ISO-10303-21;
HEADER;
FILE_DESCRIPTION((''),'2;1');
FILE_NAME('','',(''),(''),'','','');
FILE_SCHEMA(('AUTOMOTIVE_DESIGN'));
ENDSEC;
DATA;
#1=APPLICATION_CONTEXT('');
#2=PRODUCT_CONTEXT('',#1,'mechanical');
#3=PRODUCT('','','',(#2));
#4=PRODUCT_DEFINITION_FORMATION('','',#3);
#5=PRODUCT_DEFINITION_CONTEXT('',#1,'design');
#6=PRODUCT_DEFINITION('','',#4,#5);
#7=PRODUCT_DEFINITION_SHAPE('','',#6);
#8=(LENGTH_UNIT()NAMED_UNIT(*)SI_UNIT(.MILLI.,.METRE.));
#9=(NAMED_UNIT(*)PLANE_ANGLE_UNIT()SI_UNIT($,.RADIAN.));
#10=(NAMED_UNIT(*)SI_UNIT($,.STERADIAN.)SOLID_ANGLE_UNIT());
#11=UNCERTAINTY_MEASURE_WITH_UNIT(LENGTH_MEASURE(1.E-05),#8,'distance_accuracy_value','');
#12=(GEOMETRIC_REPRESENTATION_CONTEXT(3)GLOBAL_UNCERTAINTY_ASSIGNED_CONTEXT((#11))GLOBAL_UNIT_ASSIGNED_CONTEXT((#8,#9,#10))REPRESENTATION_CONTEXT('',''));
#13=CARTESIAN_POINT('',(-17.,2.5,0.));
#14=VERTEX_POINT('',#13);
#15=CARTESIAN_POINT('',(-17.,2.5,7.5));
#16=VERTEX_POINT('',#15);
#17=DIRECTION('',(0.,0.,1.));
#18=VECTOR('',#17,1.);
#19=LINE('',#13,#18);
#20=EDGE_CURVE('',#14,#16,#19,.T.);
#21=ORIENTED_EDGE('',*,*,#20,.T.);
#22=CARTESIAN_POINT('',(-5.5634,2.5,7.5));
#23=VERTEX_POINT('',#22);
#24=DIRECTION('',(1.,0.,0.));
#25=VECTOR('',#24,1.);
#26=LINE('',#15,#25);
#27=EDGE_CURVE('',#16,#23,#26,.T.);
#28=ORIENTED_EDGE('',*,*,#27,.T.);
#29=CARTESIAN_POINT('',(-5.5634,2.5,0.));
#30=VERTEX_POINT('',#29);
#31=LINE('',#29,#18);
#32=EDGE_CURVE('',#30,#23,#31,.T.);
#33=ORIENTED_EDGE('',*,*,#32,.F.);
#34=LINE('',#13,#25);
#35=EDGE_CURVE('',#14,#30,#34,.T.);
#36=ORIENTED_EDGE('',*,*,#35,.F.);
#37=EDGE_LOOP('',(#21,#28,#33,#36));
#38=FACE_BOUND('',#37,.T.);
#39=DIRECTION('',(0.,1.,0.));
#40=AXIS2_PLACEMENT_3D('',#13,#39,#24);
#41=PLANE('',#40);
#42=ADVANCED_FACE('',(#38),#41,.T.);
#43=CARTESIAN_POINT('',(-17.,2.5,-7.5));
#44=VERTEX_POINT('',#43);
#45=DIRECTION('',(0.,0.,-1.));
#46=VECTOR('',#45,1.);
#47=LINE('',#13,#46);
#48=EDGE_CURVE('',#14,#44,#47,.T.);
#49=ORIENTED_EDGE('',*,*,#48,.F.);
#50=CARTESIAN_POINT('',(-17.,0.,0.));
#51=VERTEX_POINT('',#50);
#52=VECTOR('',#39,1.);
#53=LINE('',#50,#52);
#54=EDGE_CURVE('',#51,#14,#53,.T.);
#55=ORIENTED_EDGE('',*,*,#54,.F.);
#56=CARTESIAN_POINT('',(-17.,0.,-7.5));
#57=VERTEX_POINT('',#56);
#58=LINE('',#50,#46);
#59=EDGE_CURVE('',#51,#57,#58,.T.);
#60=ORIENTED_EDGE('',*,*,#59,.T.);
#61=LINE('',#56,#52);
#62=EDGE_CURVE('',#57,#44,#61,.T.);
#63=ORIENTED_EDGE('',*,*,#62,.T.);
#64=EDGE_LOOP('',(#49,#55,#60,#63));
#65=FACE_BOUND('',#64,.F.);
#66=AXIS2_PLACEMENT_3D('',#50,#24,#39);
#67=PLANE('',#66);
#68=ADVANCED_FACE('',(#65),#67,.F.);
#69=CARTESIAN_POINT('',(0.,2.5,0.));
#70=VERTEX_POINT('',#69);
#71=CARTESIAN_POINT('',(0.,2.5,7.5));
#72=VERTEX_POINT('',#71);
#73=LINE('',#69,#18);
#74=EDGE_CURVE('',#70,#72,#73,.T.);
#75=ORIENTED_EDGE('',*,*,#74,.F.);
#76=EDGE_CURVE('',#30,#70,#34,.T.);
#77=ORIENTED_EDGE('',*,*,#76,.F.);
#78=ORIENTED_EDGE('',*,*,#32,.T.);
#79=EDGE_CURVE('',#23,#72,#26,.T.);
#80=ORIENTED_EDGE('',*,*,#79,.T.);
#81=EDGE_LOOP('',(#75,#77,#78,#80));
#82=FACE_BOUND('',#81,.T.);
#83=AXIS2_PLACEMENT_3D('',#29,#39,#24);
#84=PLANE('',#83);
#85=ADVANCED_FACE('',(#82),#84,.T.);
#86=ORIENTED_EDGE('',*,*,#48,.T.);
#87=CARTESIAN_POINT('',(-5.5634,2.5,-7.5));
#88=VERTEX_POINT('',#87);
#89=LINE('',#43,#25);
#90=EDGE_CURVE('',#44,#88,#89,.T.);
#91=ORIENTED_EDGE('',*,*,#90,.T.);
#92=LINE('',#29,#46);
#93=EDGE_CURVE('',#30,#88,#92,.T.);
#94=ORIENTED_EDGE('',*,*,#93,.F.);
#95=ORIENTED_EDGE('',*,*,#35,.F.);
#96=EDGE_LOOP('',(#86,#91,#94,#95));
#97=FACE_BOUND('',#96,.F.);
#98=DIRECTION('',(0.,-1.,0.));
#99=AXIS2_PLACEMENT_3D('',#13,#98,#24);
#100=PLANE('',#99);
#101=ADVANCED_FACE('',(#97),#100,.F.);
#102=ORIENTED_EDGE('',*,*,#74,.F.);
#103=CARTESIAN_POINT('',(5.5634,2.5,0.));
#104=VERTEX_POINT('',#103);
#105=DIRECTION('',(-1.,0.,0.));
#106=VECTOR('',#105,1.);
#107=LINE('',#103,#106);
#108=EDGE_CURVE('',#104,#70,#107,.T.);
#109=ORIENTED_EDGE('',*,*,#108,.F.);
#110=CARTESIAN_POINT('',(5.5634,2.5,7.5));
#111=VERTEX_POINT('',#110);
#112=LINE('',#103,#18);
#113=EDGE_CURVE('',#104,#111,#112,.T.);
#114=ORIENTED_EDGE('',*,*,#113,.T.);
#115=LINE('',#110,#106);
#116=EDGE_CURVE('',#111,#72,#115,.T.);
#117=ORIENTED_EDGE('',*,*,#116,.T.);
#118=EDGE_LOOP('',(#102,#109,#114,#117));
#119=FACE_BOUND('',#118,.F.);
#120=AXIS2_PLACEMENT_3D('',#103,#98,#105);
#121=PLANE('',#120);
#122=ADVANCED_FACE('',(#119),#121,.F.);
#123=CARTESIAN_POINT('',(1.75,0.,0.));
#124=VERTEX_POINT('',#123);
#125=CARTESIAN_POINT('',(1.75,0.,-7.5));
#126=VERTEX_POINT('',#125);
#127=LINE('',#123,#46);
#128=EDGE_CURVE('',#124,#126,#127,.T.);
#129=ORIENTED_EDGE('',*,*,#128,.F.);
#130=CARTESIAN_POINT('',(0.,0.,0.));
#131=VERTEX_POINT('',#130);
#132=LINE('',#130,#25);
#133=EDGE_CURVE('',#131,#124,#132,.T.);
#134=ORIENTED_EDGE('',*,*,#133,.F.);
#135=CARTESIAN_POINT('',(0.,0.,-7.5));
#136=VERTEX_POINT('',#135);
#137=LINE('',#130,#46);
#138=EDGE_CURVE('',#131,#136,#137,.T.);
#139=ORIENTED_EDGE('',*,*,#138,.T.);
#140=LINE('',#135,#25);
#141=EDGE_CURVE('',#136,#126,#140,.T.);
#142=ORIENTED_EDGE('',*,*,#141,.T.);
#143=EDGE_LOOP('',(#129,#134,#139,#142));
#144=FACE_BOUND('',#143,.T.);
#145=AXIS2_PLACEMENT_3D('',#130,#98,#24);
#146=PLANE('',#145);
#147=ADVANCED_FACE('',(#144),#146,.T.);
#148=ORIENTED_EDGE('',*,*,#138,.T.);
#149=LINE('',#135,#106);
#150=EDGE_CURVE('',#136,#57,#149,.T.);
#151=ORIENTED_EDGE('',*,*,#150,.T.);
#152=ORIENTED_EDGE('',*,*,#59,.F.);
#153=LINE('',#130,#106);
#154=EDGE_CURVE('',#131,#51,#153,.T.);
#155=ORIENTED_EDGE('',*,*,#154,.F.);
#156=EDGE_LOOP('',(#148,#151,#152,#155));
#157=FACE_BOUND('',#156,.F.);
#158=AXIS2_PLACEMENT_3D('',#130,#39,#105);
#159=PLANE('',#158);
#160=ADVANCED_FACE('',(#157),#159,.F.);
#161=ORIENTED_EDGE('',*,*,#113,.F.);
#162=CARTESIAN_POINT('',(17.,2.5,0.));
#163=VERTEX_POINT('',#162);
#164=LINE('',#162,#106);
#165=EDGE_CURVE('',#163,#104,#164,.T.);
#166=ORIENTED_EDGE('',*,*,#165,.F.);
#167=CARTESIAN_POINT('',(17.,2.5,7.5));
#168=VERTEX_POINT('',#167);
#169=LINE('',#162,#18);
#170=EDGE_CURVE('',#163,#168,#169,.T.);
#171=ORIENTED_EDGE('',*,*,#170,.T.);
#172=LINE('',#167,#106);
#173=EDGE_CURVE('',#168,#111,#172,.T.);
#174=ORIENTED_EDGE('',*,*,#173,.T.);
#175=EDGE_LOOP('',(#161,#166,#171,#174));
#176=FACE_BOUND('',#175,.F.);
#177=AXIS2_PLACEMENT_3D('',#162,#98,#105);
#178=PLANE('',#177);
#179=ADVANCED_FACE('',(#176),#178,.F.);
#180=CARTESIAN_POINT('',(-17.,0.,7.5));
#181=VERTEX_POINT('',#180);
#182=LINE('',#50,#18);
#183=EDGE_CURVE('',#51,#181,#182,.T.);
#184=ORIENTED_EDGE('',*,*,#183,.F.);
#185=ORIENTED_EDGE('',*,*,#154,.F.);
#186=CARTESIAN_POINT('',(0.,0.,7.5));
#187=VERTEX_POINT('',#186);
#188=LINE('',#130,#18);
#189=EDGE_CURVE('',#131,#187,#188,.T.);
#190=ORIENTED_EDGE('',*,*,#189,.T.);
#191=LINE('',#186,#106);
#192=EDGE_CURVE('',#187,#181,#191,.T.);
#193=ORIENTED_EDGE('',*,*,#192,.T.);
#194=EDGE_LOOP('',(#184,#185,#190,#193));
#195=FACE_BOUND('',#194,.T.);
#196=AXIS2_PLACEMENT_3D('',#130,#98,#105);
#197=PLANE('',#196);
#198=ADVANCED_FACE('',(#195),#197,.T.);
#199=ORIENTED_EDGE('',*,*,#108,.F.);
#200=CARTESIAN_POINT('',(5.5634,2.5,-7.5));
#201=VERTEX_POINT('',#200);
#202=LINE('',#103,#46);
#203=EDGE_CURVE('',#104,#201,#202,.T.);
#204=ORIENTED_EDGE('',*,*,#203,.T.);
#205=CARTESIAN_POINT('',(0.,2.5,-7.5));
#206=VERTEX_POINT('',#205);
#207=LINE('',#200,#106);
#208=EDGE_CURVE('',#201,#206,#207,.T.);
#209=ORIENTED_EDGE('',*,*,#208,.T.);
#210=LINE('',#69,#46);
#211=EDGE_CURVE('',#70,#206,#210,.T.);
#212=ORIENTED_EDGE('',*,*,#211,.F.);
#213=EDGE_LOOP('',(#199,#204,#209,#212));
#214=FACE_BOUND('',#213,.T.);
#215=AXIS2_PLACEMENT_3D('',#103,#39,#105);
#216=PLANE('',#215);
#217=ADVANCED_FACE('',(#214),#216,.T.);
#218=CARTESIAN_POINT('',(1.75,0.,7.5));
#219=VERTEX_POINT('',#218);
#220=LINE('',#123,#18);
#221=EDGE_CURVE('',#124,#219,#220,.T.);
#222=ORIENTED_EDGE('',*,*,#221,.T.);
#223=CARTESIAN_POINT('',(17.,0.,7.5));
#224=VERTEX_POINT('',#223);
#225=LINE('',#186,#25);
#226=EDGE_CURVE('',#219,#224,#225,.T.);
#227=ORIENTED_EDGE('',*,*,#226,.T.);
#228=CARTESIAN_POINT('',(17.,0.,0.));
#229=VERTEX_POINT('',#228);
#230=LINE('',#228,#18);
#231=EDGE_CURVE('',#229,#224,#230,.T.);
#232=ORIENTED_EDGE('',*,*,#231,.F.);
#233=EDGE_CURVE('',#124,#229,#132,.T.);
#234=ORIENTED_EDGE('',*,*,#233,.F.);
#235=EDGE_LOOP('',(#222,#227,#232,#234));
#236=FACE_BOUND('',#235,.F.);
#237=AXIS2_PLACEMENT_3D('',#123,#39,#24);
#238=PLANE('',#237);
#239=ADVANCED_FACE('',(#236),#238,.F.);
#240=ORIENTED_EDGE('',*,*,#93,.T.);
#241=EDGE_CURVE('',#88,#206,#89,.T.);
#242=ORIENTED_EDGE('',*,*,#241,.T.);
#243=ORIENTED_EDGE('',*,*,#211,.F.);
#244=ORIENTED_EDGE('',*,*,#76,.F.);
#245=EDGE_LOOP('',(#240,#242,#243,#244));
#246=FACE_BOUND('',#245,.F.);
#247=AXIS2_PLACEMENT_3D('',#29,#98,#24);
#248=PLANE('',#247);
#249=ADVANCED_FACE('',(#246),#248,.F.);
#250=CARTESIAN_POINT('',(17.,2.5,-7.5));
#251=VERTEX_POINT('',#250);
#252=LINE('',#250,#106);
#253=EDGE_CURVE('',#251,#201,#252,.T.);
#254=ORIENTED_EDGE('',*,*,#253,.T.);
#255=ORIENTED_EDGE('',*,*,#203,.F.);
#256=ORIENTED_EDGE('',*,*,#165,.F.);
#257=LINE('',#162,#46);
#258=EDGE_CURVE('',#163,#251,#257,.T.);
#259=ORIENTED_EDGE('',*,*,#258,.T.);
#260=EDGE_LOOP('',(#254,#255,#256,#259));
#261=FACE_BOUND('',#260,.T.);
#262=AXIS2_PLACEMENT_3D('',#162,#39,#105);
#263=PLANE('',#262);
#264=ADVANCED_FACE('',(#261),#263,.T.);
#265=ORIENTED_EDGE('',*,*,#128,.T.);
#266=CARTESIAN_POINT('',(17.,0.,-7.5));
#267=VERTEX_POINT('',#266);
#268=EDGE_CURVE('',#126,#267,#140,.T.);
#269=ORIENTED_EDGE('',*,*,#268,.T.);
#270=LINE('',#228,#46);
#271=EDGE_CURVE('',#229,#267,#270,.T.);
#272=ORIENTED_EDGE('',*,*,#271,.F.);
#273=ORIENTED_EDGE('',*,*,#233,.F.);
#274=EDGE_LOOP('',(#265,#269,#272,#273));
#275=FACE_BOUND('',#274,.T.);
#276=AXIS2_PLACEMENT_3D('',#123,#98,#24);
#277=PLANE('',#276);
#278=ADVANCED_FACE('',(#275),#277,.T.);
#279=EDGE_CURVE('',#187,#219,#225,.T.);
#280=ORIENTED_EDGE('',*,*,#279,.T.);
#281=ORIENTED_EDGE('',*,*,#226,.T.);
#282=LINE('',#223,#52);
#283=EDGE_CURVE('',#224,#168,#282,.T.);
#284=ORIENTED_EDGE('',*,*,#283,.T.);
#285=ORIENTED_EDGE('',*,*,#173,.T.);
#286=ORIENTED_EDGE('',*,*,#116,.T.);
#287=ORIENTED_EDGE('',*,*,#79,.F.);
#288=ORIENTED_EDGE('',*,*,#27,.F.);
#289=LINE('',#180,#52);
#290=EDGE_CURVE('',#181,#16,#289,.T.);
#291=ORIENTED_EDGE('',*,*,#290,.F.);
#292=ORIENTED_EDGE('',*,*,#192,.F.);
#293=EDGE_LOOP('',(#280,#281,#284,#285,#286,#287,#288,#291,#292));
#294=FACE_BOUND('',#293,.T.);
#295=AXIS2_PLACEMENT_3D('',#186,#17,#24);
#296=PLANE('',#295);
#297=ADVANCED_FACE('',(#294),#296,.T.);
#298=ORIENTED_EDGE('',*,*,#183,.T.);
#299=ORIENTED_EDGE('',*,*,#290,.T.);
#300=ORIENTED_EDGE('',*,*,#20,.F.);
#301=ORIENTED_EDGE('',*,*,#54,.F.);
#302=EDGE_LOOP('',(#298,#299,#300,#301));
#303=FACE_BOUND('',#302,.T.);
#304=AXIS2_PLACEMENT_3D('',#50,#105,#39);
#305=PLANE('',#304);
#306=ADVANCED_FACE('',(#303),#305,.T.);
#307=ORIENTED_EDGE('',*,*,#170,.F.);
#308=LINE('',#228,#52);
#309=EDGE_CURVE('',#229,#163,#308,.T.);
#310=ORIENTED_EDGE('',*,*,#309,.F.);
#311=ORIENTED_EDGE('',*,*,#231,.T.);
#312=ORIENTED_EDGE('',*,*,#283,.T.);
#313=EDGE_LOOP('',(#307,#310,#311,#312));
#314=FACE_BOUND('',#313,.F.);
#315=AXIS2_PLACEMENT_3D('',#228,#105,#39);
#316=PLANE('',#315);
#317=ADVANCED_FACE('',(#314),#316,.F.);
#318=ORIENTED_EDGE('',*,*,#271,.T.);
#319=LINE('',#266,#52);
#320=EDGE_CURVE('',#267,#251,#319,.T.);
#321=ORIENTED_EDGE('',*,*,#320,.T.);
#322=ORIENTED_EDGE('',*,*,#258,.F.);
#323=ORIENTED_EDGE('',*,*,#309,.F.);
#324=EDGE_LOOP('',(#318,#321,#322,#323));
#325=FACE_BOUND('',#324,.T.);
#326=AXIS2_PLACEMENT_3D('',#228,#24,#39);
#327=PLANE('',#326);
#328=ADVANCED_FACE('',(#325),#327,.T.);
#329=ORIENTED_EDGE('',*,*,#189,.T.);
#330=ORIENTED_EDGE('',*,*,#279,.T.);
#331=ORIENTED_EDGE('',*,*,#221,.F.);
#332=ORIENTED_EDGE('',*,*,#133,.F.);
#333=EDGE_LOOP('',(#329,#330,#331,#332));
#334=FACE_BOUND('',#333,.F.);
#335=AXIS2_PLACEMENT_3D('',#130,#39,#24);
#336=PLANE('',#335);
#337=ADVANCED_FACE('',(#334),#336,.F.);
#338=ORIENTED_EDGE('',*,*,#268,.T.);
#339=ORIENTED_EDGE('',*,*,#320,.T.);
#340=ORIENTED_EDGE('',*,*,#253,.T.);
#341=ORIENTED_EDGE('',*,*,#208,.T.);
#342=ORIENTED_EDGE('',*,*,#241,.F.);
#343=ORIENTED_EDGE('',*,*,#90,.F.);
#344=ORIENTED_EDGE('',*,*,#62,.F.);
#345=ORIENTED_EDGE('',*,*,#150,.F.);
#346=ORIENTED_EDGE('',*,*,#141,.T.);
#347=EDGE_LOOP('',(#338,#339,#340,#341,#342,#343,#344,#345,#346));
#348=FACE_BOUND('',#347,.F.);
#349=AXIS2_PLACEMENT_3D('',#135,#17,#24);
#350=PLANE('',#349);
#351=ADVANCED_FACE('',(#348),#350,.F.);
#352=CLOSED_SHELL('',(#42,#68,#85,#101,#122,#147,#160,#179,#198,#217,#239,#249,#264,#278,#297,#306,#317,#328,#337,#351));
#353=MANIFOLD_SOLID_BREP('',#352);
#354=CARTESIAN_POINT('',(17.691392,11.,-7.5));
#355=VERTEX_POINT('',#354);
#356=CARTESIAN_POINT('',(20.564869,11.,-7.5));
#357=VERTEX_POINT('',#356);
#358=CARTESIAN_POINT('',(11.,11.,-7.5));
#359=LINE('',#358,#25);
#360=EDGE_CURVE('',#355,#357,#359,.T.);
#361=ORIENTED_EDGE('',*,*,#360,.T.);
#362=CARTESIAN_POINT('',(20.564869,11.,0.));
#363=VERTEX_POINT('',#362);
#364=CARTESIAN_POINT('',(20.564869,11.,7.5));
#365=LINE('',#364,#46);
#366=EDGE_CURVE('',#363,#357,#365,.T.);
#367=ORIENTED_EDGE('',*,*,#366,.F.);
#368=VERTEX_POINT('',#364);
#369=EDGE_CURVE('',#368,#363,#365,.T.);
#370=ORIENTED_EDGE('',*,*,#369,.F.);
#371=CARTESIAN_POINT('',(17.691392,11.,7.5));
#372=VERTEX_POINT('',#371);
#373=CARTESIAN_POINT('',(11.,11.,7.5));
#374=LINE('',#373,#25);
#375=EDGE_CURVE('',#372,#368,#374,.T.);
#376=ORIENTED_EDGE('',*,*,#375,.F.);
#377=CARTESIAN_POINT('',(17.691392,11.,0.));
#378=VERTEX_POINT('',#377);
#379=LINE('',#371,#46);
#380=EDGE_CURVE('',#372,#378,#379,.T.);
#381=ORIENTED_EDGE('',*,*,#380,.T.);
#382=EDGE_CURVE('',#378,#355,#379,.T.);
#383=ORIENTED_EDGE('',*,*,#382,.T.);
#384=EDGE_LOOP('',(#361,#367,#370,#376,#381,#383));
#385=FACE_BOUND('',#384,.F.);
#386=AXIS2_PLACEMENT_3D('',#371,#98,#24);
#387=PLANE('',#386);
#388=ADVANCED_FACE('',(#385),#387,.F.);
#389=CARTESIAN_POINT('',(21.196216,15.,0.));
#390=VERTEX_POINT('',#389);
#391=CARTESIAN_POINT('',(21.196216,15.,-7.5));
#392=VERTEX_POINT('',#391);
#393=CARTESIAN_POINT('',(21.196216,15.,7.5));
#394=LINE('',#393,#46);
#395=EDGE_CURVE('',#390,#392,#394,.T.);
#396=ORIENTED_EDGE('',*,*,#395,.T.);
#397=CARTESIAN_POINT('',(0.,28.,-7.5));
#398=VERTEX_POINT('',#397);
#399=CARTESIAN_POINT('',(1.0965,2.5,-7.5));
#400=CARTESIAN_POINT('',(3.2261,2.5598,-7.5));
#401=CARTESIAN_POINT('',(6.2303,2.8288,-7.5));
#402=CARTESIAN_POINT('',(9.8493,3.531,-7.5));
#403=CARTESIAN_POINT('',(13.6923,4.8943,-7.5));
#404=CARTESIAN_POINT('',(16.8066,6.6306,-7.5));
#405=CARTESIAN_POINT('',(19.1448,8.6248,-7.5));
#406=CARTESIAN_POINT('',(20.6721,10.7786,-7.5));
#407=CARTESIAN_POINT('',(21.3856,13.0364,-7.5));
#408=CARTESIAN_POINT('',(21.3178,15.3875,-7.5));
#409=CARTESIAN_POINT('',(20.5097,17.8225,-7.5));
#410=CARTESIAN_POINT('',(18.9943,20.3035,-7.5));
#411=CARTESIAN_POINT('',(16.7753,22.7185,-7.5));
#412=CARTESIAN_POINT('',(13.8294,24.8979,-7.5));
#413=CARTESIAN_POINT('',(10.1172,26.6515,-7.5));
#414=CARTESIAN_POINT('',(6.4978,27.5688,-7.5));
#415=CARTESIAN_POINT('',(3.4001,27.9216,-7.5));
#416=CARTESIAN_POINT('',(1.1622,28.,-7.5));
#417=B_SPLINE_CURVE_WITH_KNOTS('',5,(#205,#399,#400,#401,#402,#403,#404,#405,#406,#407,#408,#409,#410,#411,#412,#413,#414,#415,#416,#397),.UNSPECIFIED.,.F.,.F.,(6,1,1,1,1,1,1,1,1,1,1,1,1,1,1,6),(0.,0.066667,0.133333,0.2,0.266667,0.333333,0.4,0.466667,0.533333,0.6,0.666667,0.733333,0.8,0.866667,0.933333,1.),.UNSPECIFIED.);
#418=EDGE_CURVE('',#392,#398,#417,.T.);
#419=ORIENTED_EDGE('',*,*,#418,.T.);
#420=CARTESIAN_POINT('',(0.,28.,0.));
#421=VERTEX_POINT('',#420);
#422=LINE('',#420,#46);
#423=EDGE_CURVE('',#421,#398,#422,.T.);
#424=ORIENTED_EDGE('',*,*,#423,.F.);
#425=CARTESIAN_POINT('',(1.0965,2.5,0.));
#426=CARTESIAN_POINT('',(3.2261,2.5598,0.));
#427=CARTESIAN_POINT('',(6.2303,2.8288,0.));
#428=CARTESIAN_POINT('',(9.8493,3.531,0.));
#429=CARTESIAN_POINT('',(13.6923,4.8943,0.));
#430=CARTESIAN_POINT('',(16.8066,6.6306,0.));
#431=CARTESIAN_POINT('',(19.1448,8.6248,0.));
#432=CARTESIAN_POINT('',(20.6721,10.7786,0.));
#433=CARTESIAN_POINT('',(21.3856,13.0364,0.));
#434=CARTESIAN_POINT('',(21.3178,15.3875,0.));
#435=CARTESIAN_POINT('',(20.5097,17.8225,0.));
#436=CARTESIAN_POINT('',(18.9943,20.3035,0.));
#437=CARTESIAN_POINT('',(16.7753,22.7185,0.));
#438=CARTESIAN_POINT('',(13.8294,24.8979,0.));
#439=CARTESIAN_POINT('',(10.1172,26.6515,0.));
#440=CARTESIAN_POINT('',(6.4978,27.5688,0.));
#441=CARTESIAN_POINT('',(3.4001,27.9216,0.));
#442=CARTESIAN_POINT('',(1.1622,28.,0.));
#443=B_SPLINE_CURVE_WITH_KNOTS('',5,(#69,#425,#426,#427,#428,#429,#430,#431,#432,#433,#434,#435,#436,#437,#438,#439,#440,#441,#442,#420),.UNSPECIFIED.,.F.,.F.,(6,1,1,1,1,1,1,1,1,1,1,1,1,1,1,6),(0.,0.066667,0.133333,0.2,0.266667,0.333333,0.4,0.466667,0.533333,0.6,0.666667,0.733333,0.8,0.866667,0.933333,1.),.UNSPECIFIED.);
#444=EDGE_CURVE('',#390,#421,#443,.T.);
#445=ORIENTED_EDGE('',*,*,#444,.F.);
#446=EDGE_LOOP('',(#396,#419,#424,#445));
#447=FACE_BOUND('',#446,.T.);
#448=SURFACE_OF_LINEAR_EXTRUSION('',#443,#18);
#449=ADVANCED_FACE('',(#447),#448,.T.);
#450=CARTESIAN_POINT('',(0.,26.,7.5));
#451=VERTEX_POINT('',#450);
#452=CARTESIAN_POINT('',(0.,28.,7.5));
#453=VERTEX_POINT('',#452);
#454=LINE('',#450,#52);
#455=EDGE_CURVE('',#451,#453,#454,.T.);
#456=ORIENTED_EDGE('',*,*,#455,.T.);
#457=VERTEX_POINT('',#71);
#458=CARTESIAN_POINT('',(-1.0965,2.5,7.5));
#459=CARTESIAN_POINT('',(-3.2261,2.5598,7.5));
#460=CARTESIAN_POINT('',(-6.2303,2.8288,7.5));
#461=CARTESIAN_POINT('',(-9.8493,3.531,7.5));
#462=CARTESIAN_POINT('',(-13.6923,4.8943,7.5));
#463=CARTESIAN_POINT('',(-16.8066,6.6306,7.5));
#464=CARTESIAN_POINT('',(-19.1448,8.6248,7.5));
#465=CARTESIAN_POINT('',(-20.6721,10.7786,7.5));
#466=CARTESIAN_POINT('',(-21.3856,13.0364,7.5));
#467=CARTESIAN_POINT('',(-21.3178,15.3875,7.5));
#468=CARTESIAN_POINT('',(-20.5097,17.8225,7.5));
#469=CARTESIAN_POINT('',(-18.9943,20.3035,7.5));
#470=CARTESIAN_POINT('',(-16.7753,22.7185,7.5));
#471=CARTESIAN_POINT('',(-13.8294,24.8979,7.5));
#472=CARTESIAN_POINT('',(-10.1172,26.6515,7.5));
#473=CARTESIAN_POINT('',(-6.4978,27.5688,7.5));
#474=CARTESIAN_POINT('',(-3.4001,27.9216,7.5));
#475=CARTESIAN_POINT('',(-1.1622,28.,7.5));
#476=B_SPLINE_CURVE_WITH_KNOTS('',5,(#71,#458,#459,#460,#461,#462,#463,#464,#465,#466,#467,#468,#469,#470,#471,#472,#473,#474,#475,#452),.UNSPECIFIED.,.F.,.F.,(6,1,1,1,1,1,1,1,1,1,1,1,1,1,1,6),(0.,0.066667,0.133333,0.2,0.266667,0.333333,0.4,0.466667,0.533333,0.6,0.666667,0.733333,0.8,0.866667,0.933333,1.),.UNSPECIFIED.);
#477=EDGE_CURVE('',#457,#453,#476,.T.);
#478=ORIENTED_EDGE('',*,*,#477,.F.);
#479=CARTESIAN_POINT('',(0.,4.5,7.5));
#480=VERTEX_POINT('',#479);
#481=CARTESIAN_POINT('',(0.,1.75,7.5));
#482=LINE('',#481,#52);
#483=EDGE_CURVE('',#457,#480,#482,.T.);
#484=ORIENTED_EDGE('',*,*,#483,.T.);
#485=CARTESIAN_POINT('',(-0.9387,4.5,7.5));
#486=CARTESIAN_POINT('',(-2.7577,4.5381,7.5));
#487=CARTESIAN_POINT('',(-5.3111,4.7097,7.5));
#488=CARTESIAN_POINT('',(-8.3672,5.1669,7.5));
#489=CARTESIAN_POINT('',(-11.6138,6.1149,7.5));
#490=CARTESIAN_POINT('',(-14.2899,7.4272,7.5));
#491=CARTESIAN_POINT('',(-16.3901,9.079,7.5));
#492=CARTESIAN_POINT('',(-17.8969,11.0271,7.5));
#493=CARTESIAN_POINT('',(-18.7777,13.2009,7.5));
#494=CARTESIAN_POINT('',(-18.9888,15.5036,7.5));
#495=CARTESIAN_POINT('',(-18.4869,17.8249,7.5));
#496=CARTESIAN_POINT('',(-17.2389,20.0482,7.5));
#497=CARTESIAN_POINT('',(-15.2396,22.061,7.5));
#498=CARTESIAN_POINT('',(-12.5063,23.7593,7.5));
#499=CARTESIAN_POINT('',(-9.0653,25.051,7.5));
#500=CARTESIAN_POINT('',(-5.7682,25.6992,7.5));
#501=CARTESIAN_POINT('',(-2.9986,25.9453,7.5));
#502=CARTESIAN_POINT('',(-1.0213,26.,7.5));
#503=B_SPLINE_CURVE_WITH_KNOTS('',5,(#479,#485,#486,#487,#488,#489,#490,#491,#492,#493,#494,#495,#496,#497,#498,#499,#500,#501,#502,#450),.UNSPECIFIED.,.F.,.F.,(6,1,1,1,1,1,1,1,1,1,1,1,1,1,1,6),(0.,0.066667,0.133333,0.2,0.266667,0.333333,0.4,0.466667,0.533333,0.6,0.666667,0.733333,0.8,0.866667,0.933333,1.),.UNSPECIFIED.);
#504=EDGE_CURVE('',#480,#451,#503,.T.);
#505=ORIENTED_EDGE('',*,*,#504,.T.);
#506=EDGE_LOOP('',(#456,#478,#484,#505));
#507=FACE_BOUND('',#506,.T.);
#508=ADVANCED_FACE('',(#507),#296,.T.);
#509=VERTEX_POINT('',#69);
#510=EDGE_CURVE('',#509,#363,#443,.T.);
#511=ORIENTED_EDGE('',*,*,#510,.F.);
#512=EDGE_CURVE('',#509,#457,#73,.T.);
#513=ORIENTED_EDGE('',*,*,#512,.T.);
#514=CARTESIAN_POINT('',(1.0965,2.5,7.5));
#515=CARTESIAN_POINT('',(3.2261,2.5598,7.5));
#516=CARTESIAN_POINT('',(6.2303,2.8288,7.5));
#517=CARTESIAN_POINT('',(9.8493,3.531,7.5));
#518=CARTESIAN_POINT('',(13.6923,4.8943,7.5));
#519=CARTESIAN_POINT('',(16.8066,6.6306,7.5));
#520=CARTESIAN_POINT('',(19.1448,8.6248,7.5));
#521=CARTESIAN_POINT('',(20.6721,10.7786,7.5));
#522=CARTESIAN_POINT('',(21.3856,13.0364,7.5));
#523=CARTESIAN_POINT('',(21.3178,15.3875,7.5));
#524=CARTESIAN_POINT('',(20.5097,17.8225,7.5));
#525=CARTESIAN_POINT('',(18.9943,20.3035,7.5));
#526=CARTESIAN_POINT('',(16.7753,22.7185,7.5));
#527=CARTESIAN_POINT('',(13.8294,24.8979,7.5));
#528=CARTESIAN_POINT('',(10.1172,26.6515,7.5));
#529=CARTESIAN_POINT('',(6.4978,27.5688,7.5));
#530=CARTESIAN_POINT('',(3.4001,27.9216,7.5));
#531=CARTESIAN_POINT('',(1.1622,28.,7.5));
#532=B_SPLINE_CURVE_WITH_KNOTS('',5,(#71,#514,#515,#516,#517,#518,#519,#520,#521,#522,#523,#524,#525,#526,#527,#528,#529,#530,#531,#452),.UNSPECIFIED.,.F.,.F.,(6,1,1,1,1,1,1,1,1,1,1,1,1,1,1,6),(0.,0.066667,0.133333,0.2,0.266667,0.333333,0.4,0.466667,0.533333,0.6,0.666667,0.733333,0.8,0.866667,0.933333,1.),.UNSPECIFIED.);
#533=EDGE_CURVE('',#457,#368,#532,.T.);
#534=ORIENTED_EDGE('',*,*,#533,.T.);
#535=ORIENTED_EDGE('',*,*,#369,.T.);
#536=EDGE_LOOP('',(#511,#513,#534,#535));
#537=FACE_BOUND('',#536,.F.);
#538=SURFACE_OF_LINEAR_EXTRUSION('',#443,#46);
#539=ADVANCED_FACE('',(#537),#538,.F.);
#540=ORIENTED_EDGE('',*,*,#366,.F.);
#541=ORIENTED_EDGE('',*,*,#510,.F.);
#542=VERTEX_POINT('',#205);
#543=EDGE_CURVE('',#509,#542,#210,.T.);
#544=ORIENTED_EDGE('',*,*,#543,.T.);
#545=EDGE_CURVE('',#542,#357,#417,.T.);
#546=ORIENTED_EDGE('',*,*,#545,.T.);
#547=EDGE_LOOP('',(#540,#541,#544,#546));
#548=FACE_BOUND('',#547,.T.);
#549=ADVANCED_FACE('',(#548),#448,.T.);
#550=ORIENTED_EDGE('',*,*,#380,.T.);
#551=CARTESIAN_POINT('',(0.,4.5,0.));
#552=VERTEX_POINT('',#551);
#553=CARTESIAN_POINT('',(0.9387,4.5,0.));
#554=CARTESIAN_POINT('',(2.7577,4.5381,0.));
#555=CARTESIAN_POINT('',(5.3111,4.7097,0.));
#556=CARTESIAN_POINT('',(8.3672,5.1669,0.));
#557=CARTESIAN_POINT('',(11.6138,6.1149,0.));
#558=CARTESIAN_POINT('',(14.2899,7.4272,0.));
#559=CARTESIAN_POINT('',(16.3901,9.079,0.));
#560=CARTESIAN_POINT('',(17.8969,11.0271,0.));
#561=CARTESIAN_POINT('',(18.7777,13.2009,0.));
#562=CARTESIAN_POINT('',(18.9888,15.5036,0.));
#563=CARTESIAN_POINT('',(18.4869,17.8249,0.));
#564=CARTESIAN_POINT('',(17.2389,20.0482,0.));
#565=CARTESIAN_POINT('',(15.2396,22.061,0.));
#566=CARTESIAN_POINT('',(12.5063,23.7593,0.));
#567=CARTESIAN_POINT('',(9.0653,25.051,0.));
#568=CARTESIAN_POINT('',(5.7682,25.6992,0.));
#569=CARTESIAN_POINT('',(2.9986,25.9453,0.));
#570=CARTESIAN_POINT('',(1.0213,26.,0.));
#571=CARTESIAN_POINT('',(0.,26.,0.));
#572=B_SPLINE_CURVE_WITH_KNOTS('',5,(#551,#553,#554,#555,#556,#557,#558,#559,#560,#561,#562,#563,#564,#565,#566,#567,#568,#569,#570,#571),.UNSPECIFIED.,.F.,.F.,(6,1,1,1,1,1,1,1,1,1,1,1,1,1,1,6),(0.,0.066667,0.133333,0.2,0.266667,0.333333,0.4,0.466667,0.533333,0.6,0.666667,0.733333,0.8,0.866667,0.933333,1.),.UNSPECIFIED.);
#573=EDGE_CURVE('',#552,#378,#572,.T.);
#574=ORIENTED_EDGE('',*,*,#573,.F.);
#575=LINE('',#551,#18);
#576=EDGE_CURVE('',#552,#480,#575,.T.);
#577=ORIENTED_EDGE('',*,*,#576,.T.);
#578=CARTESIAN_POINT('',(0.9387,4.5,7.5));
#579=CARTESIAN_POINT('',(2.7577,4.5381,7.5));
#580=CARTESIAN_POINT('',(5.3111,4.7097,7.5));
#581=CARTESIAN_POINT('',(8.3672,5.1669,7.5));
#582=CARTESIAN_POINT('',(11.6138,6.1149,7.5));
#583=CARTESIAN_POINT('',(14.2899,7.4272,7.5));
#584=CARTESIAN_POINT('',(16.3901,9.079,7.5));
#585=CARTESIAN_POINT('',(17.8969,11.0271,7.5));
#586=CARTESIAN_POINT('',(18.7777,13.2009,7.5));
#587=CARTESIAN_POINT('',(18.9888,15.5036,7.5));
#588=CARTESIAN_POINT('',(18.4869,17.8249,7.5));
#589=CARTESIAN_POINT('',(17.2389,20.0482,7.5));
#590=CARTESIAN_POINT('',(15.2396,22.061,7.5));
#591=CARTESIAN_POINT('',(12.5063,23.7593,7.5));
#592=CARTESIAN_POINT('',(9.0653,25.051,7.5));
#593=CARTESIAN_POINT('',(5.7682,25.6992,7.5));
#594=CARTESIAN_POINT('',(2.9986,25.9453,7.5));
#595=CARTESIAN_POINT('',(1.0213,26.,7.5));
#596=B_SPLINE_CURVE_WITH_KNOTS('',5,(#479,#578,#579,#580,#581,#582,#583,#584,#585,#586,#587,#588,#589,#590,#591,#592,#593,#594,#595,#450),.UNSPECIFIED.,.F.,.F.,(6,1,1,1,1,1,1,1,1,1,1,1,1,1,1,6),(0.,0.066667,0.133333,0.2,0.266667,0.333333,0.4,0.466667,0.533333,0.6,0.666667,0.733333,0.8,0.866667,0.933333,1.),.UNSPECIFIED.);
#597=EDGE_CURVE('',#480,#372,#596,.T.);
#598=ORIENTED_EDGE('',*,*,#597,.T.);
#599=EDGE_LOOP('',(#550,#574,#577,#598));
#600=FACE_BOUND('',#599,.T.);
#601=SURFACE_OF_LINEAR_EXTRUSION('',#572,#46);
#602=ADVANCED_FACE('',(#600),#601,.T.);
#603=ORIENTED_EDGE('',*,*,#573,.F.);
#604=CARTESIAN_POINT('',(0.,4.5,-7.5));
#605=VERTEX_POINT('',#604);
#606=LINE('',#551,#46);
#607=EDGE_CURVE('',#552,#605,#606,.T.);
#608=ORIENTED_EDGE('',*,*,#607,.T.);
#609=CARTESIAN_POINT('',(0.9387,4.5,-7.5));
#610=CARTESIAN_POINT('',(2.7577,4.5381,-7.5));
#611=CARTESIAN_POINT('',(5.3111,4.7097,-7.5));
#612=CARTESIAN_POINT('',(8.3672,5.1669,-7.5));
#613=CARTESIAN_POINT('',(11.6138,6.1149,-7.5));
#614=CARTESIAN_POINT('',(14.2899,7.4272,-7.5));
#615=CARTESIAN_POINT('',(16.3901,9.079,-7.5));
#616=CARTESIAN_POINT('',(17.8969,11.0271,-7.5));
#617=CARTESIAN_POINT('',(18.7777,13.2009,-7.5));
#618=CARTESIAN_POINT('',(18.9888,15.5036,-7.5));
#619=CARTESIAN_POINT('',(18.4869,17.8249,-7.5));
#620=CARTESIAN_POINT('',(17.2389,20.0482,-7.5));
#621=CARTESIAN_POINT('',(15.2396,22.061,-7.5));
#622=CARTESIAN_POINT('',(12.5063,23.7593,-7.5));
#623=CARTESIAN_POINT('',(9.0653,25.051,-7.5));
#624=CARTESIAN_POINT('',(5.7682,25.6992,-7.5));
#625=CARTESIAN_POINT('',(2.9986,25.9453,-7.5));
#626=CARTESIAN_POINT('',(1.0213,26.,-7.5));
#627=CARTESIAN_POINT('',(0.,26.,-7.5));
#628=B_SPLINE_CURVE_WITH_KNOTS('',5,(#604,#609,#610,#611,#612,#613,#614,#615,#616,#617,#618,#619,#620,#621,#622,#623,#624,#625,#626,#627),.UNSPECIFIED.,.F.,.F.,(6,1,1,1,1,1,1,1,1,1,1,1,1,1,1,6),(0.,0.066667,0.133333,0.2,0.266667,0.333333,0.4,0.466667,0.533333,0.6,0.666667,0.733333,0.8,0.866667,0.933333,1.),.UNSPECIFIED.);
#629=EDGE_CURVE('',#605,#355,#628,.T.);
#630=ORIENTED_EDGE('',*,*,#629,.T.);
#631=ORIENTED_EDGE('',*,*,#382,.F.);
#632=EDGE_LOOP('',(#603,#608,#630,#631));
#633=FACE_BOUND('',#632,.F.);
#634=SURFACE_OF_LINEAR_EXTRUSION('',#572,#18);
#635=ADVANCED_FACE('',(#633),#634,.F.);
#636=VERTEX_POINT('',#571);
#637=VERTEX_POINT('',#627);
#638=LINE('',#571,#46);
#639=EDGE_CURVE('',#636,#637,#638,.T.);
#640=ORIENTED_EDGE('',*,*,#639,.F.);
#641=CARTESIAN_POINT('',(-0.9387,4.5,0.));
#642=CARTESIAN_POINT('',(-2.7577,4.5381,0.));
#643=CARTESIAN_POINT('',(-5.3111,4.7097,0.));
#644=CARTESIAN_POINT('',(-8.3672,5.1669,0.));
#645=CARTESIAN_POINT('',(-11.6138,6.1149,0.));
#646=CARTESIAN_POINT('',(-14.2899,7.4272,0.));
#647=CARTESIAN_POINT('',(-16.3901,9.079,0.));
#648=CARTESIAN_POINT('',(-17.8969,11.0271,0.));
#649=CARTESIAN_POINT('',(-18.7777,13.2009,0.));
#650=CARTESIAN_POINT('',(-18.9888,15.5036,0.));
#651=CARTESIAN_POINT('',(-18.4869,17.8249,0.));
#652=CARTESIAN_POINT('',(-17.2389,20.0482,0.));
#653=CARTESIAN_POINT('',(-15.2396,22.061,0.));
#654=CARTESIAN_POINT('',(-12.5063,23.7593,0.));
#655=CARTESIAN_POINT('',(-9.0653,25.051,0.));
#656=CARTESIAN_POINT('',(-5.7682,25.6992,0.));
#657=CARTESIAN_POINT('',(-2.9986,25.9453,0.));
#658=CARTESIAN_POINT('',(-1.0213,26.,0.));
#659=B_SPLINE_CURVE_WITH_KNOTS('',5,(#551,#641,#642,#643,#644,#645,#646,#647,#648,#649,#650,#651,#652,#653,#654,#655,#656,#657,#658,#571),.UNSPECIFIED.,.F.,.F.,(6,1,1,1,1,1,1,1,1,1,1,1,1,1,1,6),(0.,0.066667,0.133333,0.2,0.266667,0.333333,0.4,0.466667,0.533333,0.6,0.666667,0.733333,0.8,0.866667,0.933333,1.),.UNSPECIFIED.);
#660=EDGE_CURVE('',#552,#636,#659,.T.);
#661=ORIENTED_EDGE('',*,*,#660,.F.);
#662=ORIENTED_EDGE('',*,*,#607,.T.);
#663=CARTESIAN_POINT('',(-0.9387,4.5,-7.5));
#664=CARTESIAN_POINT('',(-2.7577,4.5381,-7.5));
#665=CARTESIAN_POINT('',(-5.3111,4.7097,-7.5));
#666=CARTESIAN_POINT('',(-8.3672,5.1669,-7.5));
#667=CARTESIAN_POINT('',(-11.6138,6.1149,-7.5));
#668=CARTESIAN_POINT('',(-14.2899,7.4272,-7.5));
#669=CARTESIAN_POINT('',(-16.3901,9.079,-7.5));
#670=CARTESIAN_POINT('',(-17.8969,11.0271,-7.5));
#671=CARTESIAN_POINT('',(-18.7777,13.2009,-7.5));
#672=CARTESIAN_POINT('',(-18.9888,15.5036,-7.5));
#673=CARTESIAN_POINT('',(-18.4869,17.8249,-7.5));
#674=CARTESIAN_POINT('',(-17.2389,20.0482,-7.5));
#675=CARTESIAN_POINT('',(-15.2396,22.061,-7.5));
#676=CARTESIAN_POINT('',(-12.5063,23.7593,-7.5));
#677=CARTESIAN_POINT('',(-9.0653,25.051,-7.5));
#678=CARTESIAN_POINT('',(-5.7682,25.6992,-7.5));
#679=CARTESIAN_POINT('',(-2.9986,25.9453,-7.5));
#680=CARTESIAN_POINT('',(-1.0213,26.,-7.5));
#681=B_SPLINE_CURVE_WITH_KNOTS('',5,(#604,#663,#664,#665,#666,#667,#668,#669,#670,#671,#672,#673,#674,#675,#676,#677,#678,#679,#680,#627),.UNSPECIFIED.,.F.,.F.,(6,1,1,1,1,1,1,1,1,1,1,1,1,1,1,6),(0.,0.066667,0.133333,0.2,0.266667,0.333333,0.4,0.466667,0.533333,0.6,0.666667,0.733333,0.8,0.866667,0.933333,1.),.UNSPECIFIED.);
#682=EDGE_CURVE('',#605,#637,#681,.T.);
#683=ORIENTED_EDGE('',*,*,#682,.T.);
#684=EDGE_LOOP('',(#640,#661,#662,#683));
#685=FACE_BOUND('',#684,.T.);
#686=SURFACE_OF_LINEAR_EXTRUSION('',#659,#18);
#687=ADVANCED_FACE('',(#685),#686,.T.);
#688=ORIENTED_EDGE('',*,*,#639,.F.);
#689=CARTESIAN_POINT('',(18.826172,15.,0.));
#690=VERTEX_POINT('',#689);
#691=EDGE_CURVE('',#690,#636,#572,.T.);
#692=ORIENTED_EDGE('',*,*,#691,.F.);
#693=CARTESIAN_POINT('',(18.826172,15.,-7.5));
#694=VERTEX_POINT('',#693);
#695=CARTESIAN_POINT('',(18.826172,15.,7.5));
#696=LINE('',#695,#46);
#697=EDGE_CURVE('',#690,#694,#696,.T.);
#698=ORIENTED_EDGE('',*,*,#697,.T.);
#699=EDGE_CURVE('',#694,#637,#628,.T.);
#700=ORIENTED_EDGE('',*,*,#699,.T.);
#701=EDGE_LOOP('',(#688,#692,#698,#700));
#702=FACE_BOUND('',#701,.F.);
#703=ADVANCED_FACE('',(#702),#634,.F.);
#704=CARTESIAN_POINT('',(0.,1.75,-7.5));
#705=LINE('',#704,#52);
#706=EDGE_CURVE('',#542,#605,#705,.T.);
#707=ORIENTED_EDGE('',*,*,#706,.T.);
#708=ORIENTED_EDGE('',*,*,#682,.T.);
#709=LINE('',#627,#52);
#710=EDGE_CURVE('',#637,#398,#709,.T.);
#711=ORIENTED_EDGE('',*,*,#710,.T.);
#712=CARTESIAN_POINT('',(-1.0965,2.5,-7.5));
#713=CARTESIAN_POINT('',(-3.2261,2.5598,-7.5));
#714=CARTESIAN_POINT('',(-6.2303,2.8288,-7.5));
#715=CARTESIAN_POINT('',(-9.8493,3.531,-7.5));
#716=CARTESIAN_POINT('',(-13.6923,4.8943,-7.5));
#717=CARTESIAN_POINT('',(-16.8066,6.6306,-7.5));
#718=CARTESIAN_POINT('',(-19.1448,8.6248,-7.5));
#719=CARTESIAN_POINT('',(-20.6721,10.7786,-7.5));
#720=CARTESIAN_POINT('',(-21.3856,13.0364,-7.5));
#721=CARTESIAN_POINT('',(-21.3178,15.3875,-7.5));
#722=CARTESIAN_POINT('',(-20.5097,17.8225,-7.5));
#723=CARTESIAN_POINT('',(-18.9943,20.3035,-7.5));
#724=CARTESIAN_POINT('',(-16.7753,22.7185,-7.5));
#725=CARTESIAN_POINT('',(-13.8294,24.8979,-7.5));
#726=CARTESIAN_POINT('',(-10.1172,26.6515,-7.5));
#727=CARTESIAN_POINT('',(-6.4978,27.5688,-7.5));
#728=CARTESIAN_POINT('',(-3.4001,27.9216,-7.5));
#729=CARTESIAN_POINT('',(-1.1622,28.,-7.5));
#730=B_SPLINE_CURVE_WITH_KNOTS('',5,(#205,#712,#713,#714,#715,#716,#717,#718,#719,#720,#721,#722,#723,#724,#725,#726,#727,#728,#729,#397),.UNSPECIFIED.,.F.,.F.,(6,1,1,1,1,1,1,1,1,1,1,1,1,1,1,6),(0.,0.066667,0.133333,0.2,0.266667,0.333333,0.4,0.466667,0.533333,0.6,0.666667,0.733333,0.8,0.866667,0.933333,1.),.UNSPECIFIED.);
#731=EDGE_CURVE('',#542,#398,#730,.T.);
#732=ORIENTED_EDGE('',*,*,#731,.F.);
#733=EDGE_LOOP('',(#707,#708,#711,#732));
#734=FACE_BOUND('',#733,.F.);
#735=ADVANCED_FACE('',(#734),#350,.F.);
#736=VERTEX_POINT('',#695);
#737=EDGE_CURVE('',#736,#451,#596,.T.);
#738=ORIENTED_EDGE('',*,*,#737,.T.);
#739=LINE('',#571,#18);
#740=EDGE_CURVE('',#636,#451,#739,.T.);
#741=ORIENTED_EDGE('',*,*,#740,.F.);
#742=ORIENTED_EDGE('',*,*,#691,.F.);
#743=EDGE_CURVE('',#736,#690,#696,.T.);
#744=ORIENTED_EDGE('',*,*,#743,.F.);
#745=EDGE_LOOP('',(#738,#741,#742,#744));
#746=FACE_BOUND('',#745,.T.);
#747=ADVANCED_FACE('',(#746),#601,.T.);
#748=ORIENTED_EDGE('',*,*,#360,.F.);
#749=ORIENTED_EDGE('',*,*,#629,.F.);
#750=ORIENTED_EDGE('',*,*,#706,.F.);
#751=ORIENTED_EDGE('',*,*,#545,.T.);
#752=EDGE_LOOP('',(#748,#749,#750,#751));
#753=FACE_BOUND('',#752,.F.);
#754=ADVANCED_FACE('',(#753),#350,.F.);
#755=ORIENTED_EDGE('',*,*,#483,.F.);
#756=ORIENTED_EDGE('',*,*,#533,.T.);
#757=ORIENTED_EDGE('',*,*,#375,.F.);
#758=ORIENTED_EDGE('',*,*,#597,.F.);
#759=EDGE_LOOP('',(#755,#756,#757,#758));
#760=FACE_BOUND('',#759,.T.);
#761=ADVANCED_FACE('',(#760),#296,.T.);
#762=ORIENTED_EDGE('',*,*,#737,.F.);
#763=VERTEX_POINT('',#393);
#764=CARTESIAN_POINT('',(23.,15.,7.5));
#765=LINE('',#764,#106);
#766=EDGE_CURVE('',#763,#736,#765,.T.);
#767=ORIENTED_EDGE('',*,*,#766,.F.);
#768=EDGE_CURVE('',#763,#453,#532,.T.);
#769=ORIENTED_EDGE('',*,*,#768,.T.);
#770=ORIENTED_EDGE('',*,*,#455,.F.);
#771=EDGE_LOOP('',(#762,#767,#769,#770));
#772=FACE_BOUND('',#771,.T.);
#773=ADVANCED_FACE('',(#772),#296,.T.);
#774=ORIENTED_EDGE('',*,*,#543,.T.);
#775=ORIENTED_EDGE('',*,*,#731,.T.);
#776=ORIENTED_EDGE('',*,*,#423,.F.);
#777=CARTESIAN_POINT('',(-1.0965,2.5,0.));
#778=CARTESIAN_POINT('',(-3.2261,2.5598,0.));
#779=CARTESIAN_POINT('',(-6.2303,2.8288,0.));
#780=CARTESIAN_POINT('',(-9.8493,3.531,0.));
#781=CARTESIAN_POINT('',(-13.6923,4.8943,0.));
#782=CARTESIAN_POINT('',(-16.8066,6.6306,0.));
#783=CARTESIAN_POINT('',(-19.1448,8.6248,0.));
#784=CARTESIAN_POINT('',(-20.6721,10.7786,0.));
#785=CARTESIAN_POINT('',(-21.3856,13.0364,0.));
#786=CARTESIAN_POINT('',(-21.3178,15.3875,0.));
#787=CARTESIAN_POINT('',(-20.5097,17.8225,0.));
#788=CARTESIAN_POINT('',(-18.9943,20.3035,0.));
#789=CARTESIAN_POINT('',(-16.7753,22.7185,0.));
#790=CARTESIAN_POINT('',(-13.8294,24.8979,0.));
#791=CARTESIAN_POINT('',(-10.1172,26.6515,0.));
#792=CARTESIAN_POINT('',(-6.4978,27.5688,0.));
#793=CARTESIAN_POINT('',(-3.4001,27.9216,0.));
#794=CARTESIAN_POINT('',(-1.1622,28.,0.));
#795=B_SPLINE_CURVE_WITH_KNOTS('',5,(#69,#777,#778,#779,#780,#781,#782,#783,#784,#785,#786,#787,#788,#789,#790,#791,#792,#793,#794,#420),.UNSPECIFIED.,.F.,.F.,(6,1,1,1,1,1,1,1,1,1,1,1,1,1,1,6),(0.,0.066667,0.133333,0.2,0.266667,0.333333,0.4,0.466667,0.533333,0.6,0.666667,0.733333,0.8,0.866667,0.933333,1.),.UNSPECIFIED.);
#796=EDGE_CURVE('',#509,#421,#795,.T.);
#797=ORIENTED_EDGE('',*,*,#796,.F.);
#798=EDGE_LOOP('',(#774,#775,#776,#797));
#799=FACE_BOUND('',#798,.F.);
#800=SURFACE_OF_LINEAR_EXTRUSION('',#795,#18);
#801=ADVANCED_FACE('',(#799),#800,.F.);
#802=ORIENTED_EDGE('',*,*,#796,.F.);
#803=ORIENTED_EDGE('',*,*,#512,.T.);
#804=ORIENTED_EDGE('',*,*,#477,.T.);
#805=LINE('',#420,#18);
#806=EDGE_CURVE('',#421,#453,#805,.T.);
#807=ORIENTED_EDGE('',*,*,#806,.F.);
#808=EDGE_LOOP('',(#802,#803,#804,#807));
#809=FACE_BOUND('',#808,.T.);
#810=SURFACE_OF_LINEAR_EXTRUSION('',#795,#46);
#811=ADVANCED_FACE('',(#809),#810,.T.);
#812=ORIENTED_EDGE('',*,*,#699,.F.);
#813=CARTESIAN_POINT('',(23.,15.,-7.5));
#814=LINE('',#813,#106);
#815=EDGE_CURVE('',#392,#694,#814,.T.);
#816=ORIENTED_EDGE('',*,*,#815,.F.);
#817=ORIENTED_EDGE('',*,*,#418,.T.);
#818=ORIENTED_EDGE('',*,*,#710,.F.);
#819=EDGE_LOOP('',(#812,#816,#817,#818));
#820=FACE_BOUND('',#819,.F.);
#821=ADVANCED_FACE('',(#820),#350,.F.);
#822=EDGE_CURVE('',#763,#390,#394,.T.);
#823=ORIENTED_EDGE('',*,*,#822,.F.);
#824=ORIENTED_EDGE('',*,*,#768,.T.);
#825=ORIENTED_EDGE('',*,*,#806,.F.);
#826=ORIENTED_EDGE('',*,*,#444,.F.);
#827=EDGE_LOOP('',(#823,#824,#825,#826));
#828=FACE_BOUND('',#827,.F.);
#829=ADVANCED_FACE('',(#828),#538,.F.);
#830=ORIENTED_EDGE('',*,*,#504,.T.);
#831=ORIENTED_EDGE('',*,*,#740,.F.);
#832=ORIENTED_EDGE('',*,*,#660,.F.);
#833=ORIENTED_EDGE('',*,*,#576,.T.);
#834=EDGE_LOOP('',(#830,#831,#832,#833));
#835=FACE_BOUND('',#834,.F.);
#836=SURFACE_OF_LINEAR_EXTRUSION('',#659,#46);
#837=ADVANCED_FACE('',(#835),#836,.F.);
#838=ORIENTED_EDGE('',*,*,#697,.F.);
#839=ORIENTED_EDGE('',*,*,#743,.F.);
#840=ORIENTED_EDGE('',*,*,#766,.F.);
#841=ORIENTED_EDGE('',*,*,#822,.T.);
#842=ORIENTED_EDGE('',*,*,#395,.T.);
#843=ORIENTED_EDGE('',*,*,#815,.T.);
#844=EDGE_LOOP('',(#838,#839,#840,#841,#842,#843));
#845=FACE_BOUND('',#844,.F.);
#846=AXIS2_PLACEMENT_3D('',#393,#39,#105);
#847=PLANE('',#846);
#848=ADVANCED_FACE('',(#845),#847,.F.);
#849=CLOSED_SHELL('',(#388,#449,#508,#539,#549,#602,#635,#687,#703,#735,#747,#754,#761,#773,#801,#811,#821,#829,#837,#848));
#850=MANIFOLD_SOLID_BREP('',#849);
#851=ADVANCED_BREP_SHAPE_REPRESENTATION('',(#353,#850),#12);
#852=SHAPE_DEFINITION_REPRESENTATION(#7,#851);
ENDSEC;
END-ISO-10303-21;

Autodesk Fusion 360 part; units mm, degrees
sketch "Esquisse1" plane through (0, 0, 0) normal (0, 0, 1) x (1, 0, 0)
  line L0 (0, 0) -> (-17, 0)
  line L1 (-17, 0) -> (-17, 2.5)
  line L2 (-17, 2.5) -> (0, 2.5)
  spline S0 degree 5 poles (0, 2.5) (-1.0965, 2.5) (-3.2261, 2.5598) (-6.2303, 2.8288) (-9.8493, 3.531) (-13.6923, 4.8943) (-16.8066, 6.6306) (-19.1448, 8.6248) (-20.6721, 10.7786) (-21.3856, 13.0364) (-21.3178, 15.3875) (-20.5097, 17.8225) (-18.9943, 20.3035) (-16.7753, 22.7185) (-13.8294, 24.8979) (-10.1172, 26.6515) (-6.4978, 27.5688) (-3.4001, 27.9216) (-1.1622, 28) (0, 28) knots 0 0 0 0 0 0 0.066667 0.133333 0.2 0.266667 0.333333 0.4 0.466667 0.533333 0.6 0.666667 0.733333 0.8 0.866667 0.933333 1 1 1 1 1 1
  line L3 (0, 1.75) -> (0, 22.5)
  spline S1 degree 5 poles (0, 2.5) (1.0965, 2.5) (3.2261, 2.5598) (6.2303, 2.8288) (9.8493, 3.531) (13.6923, 4.8943) (16.8066, 6.6306) (19.1448, 8.6248) (20.6721, 10.7786) (21.3856, 13.0364) (21.3178, 15.3875) (20.5097, 17.8225) (18.9943, 20.3035) (16.7753, 22.7185) (13.8294, 24.8979) (10.1172, 26.6515) (6.4978, 27.5688) (3.4001, 27.9216) (1.1622, 28) (0, 28) knots 0 0 0 0 0 0 0.066667 0.133333 0.2 0.266667 0.333333 0.4 0.466667 0.533333 0.6 0.666667 0.733333 0.8 0.866667 0.933333 1 1 1 1 1 1
  line L4 (5.5634, 2.5) -> (-5.5634, 2.5)
  line L5 (-5.6976, 28) -> (5.6976, 28)
  line L6 (-5.5634, 2.5) -> (5.5634, 2.5)
  line L7 (5.6976, 28) -> (-5.6976, 28)
  line L8 (17, 2.5) -> (0, 2.5)
  line L9 (17, 0) -> (17, 2.5)
  line L10 (0, 0) -> (17, 0)
  spline S2 degree 5 poles (0, 4.5) (-0.9387, 4.5) (-2.7577, 4.5381) (-5.3111, 4.7097) (-8.3672, 5.1669) (-11.6138, 6.1149) (-14.2899, 7.4272) (-16.3901, 9.079) (-17.8969, 11.0271) (-18.7777, 13.2009) (-18.9888, 15.5036) (-18.4869, 17.8249) (-17.2389, 20.0482) (-15.2396, 22.061) (-12.5063, 23.7593) (-9.0653, 25.051) (-5.7682, 25.6992) (-2.9986, 25.9453) (-1.0213, 26) (0, 26) knots 0 0 0 0 0 0 0.066667 0.133333 0.2 0.266667 0.333333 0.4 0.466667 0.533333 0.6 0.666667 0.733333 0.8 0.866667 0.933333 1 1 1 1 1 1
  line L11 (5.5569, 4.5) -> (-5.5569, 4.5)
  line L12 (-5.6998, 26) -> (5.6998, 26)
  line L13 (1.75, 0) -> (22.5, 0)
  line L14 (0, 2.5) -> (0, 4.5)
  line L15 (0, 26) -> (0, 28)
  spline S3 degree 5 poles (0, 4.5) (0.9387, 4.5) (2.7577, 4.5381) (5.3111, 4.7097) (8.3672, 5.1669) (11.6138, 6.1149) (14.2899, 7.4272) (16.3901, 9.079) (17.8969, 11.0271) (18.7777, 13.2009) (18.9888, 15.5036) (18.4869, 17.8249) (17.2389, 20.0482) (15.2396, 22.061) (12.5063, 23.7593) (9.0653, 25.051) (5.7682, 25.6992) (2.9986, 25.9453) (1.0213, 26) (0, 26) knots 0 0 0 0 0 0 0.066667 0.133333 0.2 0.266667 0.333333 0.4 0.466667 0.533333 0.6 0.666667 0.733333 0.8 0.866667 0.933333 1 1 1 1 1 1
  line L16 (-5.5569, 4.5) -> (5.5569, 4.5)
  line L17 (5.6998, 26) -> (-5.6998, 26)
  point P0 (-20, 10)
  point P1 (-19.992, 18.499)
  point P2 (20, 10)
  point P3 (19.992, 18.499)
  point P4 (-17, 10)
  point P5 (-17.992, 18.499)
  point P6 (17, 10)
  point P7 (17.992, 18.499)
  dimension "d1" = 17
  dimension "d3" = 2.5
  dimension "d8" = 28
  dimension "d9" = 20
  dimension "d10" = 19.992
  dimension "d11" = 2
  dimension "d12" = 17
  dimension "d14" = 17.992
  dimension "d15" = 26
extrude "Extrusion2" add sketch "Esquisse1" along normal mid plane 15 contours S0 L3 S2 L14 L15 | L3 S1 L14 L15 S3 | L0 L1 L2 L4 L6 L8 L9 L10 L13
sketch "Esquisse2" plane through (0, 0, 7.5) normal (0, 0, 1) x (-1, 0, 0)
  spline S0 degree 5 poles (0, -26) (-1.0213, -26) (-2.9986, -25.9453) (-5.7682, -25.6992) (-9.0653, -25.051) (-12.5063, -23.7593) (-15.2396, -22.061) (-17.2389, -20.0482) (-18.4869, -17.8249) (-18.9888, -15.5036) (-18.7777, -13.2009) (-17.8969, -11.0271) (-16.3901, -9.079) (-14.2899, -7.4272) (-11.6138, -6.1149) (-8.3672, -5.1669) (-5.3111, -4.7097) (-2.7577, -4.5381) (-0.9387, -4.5) (0, -4.5) knots -1 -1 -1 -1 -1 -1 -0.933333 -0.866667 -0.8 -0.733333 -0.666667 -0.6 -0.533333 -0.466667 -0.4 -0.333333 -0.266667 -0.2 -0.133333 -0.066667 0 0 0 0 0 0
  spline S1 degree 5 poles (0, -4.5) (0.9387, -4.5) (2.7577, -4.5381) (5.3111, -4.7097) (8.3672, -5.1669) (11.6138, -6.1149) (14.2899, -7.4272) (16.3901, -9.079) (17.8969, -11.0271) (18.7777, -13.2009) (18.9888, -15.5036) (18.4869, -17.8249) (17.2389, -20.0482) (15.2396, -22.061) (12.5063, -23.7593) (9.0653, -25.051) (5.7682, -25.6992) (2.9986, -25.9453) (1.0213, -26) (0, -26) knots 0 0 0 0 0 0 0.066667 0.133333 0.2 0.266667 0.333333 0.4 0.466667 0.533333 0.6 0.666667 0.733333 0.8 0.866667 0.933333 1 1 1 1 1 1
  spline S2 degree 5 poles (0, -2.5) (-1.0965, -2.5) (-3.2261, -2.5598) (-6.2303, -2.8288) (-9.8493, -3.531) (-13.6923, -4.8943) (-16.8066, -6.6306) (-19.1448, -8.6248) (-20.6721, -10.7786) (-21.3856, -13.0364) (-21.3178, -15.3875) (-20.5097, -17.8225) (-18.9943, -20.3035) (-16.7753, -22.7185) (-13.8294, -24.8979) (-10.1172, -26.6515) (-6.4978, -27.5688) (-3.4001, -27.9216) (-1.1622, -28) (0, -28) knots 0 0 0 0 0 0 0.066667 0.133333 0.2 0.266667 0.333333 0.4 0.466667 0.533333 0.6 0.666667 0.733333 0.8 0.866667 0.933333 1 1 1 1 1 1
  spline S3 degree 5 poles (0, -28) (1.1622, -28) (3.4001, -27.9216) (6.4978, -27.5688) (10.1172, -26.6515) (13.8294, -24.8979) (16.7753, -22.7185) (18.9943, -20.3035) (20.5097, -17.8225) (21.3178, -15.3875) (21.3856, -13.0364) (20.6721, -10.7786) (19.1448, -8.6248) (16.8066, -6.6306) (13.6923, -4.8943) (9.8493, -3.531) (6.2303, -2.8288) (3.2261, -2.5598) (1.0965, -2.5) (0, -2.5) knots -1 -1 -1 -1 -1 -1 -0.933333 -0.866667 -0.8 -0.733333 -0.666667 -0.6 -0.533333 -0.466667 -0.4 -0.333333 -0.266667 -0.2 -0.133333 -0.066667 0 0 0 0 0 0
  line L0 (-23, -15) -> (-11, -15)
  line L1 (-11, -15) -> (-11, -11)
  line L2 (-11, -11) -> (-23, -11)
  line L3 (-23, -11) -> (-23, -15)
  line L4 (-23, -15) -> (-11, -11) construction
  line L5 (-11, -15) -> (-23, -11) construction
  point P0 (-17, -13)
  dimension "d20" = 4
extrude "Extrusion3" cut sketch "Esquisse2" against normal blind 15 contours S0 S2 L0 L2
